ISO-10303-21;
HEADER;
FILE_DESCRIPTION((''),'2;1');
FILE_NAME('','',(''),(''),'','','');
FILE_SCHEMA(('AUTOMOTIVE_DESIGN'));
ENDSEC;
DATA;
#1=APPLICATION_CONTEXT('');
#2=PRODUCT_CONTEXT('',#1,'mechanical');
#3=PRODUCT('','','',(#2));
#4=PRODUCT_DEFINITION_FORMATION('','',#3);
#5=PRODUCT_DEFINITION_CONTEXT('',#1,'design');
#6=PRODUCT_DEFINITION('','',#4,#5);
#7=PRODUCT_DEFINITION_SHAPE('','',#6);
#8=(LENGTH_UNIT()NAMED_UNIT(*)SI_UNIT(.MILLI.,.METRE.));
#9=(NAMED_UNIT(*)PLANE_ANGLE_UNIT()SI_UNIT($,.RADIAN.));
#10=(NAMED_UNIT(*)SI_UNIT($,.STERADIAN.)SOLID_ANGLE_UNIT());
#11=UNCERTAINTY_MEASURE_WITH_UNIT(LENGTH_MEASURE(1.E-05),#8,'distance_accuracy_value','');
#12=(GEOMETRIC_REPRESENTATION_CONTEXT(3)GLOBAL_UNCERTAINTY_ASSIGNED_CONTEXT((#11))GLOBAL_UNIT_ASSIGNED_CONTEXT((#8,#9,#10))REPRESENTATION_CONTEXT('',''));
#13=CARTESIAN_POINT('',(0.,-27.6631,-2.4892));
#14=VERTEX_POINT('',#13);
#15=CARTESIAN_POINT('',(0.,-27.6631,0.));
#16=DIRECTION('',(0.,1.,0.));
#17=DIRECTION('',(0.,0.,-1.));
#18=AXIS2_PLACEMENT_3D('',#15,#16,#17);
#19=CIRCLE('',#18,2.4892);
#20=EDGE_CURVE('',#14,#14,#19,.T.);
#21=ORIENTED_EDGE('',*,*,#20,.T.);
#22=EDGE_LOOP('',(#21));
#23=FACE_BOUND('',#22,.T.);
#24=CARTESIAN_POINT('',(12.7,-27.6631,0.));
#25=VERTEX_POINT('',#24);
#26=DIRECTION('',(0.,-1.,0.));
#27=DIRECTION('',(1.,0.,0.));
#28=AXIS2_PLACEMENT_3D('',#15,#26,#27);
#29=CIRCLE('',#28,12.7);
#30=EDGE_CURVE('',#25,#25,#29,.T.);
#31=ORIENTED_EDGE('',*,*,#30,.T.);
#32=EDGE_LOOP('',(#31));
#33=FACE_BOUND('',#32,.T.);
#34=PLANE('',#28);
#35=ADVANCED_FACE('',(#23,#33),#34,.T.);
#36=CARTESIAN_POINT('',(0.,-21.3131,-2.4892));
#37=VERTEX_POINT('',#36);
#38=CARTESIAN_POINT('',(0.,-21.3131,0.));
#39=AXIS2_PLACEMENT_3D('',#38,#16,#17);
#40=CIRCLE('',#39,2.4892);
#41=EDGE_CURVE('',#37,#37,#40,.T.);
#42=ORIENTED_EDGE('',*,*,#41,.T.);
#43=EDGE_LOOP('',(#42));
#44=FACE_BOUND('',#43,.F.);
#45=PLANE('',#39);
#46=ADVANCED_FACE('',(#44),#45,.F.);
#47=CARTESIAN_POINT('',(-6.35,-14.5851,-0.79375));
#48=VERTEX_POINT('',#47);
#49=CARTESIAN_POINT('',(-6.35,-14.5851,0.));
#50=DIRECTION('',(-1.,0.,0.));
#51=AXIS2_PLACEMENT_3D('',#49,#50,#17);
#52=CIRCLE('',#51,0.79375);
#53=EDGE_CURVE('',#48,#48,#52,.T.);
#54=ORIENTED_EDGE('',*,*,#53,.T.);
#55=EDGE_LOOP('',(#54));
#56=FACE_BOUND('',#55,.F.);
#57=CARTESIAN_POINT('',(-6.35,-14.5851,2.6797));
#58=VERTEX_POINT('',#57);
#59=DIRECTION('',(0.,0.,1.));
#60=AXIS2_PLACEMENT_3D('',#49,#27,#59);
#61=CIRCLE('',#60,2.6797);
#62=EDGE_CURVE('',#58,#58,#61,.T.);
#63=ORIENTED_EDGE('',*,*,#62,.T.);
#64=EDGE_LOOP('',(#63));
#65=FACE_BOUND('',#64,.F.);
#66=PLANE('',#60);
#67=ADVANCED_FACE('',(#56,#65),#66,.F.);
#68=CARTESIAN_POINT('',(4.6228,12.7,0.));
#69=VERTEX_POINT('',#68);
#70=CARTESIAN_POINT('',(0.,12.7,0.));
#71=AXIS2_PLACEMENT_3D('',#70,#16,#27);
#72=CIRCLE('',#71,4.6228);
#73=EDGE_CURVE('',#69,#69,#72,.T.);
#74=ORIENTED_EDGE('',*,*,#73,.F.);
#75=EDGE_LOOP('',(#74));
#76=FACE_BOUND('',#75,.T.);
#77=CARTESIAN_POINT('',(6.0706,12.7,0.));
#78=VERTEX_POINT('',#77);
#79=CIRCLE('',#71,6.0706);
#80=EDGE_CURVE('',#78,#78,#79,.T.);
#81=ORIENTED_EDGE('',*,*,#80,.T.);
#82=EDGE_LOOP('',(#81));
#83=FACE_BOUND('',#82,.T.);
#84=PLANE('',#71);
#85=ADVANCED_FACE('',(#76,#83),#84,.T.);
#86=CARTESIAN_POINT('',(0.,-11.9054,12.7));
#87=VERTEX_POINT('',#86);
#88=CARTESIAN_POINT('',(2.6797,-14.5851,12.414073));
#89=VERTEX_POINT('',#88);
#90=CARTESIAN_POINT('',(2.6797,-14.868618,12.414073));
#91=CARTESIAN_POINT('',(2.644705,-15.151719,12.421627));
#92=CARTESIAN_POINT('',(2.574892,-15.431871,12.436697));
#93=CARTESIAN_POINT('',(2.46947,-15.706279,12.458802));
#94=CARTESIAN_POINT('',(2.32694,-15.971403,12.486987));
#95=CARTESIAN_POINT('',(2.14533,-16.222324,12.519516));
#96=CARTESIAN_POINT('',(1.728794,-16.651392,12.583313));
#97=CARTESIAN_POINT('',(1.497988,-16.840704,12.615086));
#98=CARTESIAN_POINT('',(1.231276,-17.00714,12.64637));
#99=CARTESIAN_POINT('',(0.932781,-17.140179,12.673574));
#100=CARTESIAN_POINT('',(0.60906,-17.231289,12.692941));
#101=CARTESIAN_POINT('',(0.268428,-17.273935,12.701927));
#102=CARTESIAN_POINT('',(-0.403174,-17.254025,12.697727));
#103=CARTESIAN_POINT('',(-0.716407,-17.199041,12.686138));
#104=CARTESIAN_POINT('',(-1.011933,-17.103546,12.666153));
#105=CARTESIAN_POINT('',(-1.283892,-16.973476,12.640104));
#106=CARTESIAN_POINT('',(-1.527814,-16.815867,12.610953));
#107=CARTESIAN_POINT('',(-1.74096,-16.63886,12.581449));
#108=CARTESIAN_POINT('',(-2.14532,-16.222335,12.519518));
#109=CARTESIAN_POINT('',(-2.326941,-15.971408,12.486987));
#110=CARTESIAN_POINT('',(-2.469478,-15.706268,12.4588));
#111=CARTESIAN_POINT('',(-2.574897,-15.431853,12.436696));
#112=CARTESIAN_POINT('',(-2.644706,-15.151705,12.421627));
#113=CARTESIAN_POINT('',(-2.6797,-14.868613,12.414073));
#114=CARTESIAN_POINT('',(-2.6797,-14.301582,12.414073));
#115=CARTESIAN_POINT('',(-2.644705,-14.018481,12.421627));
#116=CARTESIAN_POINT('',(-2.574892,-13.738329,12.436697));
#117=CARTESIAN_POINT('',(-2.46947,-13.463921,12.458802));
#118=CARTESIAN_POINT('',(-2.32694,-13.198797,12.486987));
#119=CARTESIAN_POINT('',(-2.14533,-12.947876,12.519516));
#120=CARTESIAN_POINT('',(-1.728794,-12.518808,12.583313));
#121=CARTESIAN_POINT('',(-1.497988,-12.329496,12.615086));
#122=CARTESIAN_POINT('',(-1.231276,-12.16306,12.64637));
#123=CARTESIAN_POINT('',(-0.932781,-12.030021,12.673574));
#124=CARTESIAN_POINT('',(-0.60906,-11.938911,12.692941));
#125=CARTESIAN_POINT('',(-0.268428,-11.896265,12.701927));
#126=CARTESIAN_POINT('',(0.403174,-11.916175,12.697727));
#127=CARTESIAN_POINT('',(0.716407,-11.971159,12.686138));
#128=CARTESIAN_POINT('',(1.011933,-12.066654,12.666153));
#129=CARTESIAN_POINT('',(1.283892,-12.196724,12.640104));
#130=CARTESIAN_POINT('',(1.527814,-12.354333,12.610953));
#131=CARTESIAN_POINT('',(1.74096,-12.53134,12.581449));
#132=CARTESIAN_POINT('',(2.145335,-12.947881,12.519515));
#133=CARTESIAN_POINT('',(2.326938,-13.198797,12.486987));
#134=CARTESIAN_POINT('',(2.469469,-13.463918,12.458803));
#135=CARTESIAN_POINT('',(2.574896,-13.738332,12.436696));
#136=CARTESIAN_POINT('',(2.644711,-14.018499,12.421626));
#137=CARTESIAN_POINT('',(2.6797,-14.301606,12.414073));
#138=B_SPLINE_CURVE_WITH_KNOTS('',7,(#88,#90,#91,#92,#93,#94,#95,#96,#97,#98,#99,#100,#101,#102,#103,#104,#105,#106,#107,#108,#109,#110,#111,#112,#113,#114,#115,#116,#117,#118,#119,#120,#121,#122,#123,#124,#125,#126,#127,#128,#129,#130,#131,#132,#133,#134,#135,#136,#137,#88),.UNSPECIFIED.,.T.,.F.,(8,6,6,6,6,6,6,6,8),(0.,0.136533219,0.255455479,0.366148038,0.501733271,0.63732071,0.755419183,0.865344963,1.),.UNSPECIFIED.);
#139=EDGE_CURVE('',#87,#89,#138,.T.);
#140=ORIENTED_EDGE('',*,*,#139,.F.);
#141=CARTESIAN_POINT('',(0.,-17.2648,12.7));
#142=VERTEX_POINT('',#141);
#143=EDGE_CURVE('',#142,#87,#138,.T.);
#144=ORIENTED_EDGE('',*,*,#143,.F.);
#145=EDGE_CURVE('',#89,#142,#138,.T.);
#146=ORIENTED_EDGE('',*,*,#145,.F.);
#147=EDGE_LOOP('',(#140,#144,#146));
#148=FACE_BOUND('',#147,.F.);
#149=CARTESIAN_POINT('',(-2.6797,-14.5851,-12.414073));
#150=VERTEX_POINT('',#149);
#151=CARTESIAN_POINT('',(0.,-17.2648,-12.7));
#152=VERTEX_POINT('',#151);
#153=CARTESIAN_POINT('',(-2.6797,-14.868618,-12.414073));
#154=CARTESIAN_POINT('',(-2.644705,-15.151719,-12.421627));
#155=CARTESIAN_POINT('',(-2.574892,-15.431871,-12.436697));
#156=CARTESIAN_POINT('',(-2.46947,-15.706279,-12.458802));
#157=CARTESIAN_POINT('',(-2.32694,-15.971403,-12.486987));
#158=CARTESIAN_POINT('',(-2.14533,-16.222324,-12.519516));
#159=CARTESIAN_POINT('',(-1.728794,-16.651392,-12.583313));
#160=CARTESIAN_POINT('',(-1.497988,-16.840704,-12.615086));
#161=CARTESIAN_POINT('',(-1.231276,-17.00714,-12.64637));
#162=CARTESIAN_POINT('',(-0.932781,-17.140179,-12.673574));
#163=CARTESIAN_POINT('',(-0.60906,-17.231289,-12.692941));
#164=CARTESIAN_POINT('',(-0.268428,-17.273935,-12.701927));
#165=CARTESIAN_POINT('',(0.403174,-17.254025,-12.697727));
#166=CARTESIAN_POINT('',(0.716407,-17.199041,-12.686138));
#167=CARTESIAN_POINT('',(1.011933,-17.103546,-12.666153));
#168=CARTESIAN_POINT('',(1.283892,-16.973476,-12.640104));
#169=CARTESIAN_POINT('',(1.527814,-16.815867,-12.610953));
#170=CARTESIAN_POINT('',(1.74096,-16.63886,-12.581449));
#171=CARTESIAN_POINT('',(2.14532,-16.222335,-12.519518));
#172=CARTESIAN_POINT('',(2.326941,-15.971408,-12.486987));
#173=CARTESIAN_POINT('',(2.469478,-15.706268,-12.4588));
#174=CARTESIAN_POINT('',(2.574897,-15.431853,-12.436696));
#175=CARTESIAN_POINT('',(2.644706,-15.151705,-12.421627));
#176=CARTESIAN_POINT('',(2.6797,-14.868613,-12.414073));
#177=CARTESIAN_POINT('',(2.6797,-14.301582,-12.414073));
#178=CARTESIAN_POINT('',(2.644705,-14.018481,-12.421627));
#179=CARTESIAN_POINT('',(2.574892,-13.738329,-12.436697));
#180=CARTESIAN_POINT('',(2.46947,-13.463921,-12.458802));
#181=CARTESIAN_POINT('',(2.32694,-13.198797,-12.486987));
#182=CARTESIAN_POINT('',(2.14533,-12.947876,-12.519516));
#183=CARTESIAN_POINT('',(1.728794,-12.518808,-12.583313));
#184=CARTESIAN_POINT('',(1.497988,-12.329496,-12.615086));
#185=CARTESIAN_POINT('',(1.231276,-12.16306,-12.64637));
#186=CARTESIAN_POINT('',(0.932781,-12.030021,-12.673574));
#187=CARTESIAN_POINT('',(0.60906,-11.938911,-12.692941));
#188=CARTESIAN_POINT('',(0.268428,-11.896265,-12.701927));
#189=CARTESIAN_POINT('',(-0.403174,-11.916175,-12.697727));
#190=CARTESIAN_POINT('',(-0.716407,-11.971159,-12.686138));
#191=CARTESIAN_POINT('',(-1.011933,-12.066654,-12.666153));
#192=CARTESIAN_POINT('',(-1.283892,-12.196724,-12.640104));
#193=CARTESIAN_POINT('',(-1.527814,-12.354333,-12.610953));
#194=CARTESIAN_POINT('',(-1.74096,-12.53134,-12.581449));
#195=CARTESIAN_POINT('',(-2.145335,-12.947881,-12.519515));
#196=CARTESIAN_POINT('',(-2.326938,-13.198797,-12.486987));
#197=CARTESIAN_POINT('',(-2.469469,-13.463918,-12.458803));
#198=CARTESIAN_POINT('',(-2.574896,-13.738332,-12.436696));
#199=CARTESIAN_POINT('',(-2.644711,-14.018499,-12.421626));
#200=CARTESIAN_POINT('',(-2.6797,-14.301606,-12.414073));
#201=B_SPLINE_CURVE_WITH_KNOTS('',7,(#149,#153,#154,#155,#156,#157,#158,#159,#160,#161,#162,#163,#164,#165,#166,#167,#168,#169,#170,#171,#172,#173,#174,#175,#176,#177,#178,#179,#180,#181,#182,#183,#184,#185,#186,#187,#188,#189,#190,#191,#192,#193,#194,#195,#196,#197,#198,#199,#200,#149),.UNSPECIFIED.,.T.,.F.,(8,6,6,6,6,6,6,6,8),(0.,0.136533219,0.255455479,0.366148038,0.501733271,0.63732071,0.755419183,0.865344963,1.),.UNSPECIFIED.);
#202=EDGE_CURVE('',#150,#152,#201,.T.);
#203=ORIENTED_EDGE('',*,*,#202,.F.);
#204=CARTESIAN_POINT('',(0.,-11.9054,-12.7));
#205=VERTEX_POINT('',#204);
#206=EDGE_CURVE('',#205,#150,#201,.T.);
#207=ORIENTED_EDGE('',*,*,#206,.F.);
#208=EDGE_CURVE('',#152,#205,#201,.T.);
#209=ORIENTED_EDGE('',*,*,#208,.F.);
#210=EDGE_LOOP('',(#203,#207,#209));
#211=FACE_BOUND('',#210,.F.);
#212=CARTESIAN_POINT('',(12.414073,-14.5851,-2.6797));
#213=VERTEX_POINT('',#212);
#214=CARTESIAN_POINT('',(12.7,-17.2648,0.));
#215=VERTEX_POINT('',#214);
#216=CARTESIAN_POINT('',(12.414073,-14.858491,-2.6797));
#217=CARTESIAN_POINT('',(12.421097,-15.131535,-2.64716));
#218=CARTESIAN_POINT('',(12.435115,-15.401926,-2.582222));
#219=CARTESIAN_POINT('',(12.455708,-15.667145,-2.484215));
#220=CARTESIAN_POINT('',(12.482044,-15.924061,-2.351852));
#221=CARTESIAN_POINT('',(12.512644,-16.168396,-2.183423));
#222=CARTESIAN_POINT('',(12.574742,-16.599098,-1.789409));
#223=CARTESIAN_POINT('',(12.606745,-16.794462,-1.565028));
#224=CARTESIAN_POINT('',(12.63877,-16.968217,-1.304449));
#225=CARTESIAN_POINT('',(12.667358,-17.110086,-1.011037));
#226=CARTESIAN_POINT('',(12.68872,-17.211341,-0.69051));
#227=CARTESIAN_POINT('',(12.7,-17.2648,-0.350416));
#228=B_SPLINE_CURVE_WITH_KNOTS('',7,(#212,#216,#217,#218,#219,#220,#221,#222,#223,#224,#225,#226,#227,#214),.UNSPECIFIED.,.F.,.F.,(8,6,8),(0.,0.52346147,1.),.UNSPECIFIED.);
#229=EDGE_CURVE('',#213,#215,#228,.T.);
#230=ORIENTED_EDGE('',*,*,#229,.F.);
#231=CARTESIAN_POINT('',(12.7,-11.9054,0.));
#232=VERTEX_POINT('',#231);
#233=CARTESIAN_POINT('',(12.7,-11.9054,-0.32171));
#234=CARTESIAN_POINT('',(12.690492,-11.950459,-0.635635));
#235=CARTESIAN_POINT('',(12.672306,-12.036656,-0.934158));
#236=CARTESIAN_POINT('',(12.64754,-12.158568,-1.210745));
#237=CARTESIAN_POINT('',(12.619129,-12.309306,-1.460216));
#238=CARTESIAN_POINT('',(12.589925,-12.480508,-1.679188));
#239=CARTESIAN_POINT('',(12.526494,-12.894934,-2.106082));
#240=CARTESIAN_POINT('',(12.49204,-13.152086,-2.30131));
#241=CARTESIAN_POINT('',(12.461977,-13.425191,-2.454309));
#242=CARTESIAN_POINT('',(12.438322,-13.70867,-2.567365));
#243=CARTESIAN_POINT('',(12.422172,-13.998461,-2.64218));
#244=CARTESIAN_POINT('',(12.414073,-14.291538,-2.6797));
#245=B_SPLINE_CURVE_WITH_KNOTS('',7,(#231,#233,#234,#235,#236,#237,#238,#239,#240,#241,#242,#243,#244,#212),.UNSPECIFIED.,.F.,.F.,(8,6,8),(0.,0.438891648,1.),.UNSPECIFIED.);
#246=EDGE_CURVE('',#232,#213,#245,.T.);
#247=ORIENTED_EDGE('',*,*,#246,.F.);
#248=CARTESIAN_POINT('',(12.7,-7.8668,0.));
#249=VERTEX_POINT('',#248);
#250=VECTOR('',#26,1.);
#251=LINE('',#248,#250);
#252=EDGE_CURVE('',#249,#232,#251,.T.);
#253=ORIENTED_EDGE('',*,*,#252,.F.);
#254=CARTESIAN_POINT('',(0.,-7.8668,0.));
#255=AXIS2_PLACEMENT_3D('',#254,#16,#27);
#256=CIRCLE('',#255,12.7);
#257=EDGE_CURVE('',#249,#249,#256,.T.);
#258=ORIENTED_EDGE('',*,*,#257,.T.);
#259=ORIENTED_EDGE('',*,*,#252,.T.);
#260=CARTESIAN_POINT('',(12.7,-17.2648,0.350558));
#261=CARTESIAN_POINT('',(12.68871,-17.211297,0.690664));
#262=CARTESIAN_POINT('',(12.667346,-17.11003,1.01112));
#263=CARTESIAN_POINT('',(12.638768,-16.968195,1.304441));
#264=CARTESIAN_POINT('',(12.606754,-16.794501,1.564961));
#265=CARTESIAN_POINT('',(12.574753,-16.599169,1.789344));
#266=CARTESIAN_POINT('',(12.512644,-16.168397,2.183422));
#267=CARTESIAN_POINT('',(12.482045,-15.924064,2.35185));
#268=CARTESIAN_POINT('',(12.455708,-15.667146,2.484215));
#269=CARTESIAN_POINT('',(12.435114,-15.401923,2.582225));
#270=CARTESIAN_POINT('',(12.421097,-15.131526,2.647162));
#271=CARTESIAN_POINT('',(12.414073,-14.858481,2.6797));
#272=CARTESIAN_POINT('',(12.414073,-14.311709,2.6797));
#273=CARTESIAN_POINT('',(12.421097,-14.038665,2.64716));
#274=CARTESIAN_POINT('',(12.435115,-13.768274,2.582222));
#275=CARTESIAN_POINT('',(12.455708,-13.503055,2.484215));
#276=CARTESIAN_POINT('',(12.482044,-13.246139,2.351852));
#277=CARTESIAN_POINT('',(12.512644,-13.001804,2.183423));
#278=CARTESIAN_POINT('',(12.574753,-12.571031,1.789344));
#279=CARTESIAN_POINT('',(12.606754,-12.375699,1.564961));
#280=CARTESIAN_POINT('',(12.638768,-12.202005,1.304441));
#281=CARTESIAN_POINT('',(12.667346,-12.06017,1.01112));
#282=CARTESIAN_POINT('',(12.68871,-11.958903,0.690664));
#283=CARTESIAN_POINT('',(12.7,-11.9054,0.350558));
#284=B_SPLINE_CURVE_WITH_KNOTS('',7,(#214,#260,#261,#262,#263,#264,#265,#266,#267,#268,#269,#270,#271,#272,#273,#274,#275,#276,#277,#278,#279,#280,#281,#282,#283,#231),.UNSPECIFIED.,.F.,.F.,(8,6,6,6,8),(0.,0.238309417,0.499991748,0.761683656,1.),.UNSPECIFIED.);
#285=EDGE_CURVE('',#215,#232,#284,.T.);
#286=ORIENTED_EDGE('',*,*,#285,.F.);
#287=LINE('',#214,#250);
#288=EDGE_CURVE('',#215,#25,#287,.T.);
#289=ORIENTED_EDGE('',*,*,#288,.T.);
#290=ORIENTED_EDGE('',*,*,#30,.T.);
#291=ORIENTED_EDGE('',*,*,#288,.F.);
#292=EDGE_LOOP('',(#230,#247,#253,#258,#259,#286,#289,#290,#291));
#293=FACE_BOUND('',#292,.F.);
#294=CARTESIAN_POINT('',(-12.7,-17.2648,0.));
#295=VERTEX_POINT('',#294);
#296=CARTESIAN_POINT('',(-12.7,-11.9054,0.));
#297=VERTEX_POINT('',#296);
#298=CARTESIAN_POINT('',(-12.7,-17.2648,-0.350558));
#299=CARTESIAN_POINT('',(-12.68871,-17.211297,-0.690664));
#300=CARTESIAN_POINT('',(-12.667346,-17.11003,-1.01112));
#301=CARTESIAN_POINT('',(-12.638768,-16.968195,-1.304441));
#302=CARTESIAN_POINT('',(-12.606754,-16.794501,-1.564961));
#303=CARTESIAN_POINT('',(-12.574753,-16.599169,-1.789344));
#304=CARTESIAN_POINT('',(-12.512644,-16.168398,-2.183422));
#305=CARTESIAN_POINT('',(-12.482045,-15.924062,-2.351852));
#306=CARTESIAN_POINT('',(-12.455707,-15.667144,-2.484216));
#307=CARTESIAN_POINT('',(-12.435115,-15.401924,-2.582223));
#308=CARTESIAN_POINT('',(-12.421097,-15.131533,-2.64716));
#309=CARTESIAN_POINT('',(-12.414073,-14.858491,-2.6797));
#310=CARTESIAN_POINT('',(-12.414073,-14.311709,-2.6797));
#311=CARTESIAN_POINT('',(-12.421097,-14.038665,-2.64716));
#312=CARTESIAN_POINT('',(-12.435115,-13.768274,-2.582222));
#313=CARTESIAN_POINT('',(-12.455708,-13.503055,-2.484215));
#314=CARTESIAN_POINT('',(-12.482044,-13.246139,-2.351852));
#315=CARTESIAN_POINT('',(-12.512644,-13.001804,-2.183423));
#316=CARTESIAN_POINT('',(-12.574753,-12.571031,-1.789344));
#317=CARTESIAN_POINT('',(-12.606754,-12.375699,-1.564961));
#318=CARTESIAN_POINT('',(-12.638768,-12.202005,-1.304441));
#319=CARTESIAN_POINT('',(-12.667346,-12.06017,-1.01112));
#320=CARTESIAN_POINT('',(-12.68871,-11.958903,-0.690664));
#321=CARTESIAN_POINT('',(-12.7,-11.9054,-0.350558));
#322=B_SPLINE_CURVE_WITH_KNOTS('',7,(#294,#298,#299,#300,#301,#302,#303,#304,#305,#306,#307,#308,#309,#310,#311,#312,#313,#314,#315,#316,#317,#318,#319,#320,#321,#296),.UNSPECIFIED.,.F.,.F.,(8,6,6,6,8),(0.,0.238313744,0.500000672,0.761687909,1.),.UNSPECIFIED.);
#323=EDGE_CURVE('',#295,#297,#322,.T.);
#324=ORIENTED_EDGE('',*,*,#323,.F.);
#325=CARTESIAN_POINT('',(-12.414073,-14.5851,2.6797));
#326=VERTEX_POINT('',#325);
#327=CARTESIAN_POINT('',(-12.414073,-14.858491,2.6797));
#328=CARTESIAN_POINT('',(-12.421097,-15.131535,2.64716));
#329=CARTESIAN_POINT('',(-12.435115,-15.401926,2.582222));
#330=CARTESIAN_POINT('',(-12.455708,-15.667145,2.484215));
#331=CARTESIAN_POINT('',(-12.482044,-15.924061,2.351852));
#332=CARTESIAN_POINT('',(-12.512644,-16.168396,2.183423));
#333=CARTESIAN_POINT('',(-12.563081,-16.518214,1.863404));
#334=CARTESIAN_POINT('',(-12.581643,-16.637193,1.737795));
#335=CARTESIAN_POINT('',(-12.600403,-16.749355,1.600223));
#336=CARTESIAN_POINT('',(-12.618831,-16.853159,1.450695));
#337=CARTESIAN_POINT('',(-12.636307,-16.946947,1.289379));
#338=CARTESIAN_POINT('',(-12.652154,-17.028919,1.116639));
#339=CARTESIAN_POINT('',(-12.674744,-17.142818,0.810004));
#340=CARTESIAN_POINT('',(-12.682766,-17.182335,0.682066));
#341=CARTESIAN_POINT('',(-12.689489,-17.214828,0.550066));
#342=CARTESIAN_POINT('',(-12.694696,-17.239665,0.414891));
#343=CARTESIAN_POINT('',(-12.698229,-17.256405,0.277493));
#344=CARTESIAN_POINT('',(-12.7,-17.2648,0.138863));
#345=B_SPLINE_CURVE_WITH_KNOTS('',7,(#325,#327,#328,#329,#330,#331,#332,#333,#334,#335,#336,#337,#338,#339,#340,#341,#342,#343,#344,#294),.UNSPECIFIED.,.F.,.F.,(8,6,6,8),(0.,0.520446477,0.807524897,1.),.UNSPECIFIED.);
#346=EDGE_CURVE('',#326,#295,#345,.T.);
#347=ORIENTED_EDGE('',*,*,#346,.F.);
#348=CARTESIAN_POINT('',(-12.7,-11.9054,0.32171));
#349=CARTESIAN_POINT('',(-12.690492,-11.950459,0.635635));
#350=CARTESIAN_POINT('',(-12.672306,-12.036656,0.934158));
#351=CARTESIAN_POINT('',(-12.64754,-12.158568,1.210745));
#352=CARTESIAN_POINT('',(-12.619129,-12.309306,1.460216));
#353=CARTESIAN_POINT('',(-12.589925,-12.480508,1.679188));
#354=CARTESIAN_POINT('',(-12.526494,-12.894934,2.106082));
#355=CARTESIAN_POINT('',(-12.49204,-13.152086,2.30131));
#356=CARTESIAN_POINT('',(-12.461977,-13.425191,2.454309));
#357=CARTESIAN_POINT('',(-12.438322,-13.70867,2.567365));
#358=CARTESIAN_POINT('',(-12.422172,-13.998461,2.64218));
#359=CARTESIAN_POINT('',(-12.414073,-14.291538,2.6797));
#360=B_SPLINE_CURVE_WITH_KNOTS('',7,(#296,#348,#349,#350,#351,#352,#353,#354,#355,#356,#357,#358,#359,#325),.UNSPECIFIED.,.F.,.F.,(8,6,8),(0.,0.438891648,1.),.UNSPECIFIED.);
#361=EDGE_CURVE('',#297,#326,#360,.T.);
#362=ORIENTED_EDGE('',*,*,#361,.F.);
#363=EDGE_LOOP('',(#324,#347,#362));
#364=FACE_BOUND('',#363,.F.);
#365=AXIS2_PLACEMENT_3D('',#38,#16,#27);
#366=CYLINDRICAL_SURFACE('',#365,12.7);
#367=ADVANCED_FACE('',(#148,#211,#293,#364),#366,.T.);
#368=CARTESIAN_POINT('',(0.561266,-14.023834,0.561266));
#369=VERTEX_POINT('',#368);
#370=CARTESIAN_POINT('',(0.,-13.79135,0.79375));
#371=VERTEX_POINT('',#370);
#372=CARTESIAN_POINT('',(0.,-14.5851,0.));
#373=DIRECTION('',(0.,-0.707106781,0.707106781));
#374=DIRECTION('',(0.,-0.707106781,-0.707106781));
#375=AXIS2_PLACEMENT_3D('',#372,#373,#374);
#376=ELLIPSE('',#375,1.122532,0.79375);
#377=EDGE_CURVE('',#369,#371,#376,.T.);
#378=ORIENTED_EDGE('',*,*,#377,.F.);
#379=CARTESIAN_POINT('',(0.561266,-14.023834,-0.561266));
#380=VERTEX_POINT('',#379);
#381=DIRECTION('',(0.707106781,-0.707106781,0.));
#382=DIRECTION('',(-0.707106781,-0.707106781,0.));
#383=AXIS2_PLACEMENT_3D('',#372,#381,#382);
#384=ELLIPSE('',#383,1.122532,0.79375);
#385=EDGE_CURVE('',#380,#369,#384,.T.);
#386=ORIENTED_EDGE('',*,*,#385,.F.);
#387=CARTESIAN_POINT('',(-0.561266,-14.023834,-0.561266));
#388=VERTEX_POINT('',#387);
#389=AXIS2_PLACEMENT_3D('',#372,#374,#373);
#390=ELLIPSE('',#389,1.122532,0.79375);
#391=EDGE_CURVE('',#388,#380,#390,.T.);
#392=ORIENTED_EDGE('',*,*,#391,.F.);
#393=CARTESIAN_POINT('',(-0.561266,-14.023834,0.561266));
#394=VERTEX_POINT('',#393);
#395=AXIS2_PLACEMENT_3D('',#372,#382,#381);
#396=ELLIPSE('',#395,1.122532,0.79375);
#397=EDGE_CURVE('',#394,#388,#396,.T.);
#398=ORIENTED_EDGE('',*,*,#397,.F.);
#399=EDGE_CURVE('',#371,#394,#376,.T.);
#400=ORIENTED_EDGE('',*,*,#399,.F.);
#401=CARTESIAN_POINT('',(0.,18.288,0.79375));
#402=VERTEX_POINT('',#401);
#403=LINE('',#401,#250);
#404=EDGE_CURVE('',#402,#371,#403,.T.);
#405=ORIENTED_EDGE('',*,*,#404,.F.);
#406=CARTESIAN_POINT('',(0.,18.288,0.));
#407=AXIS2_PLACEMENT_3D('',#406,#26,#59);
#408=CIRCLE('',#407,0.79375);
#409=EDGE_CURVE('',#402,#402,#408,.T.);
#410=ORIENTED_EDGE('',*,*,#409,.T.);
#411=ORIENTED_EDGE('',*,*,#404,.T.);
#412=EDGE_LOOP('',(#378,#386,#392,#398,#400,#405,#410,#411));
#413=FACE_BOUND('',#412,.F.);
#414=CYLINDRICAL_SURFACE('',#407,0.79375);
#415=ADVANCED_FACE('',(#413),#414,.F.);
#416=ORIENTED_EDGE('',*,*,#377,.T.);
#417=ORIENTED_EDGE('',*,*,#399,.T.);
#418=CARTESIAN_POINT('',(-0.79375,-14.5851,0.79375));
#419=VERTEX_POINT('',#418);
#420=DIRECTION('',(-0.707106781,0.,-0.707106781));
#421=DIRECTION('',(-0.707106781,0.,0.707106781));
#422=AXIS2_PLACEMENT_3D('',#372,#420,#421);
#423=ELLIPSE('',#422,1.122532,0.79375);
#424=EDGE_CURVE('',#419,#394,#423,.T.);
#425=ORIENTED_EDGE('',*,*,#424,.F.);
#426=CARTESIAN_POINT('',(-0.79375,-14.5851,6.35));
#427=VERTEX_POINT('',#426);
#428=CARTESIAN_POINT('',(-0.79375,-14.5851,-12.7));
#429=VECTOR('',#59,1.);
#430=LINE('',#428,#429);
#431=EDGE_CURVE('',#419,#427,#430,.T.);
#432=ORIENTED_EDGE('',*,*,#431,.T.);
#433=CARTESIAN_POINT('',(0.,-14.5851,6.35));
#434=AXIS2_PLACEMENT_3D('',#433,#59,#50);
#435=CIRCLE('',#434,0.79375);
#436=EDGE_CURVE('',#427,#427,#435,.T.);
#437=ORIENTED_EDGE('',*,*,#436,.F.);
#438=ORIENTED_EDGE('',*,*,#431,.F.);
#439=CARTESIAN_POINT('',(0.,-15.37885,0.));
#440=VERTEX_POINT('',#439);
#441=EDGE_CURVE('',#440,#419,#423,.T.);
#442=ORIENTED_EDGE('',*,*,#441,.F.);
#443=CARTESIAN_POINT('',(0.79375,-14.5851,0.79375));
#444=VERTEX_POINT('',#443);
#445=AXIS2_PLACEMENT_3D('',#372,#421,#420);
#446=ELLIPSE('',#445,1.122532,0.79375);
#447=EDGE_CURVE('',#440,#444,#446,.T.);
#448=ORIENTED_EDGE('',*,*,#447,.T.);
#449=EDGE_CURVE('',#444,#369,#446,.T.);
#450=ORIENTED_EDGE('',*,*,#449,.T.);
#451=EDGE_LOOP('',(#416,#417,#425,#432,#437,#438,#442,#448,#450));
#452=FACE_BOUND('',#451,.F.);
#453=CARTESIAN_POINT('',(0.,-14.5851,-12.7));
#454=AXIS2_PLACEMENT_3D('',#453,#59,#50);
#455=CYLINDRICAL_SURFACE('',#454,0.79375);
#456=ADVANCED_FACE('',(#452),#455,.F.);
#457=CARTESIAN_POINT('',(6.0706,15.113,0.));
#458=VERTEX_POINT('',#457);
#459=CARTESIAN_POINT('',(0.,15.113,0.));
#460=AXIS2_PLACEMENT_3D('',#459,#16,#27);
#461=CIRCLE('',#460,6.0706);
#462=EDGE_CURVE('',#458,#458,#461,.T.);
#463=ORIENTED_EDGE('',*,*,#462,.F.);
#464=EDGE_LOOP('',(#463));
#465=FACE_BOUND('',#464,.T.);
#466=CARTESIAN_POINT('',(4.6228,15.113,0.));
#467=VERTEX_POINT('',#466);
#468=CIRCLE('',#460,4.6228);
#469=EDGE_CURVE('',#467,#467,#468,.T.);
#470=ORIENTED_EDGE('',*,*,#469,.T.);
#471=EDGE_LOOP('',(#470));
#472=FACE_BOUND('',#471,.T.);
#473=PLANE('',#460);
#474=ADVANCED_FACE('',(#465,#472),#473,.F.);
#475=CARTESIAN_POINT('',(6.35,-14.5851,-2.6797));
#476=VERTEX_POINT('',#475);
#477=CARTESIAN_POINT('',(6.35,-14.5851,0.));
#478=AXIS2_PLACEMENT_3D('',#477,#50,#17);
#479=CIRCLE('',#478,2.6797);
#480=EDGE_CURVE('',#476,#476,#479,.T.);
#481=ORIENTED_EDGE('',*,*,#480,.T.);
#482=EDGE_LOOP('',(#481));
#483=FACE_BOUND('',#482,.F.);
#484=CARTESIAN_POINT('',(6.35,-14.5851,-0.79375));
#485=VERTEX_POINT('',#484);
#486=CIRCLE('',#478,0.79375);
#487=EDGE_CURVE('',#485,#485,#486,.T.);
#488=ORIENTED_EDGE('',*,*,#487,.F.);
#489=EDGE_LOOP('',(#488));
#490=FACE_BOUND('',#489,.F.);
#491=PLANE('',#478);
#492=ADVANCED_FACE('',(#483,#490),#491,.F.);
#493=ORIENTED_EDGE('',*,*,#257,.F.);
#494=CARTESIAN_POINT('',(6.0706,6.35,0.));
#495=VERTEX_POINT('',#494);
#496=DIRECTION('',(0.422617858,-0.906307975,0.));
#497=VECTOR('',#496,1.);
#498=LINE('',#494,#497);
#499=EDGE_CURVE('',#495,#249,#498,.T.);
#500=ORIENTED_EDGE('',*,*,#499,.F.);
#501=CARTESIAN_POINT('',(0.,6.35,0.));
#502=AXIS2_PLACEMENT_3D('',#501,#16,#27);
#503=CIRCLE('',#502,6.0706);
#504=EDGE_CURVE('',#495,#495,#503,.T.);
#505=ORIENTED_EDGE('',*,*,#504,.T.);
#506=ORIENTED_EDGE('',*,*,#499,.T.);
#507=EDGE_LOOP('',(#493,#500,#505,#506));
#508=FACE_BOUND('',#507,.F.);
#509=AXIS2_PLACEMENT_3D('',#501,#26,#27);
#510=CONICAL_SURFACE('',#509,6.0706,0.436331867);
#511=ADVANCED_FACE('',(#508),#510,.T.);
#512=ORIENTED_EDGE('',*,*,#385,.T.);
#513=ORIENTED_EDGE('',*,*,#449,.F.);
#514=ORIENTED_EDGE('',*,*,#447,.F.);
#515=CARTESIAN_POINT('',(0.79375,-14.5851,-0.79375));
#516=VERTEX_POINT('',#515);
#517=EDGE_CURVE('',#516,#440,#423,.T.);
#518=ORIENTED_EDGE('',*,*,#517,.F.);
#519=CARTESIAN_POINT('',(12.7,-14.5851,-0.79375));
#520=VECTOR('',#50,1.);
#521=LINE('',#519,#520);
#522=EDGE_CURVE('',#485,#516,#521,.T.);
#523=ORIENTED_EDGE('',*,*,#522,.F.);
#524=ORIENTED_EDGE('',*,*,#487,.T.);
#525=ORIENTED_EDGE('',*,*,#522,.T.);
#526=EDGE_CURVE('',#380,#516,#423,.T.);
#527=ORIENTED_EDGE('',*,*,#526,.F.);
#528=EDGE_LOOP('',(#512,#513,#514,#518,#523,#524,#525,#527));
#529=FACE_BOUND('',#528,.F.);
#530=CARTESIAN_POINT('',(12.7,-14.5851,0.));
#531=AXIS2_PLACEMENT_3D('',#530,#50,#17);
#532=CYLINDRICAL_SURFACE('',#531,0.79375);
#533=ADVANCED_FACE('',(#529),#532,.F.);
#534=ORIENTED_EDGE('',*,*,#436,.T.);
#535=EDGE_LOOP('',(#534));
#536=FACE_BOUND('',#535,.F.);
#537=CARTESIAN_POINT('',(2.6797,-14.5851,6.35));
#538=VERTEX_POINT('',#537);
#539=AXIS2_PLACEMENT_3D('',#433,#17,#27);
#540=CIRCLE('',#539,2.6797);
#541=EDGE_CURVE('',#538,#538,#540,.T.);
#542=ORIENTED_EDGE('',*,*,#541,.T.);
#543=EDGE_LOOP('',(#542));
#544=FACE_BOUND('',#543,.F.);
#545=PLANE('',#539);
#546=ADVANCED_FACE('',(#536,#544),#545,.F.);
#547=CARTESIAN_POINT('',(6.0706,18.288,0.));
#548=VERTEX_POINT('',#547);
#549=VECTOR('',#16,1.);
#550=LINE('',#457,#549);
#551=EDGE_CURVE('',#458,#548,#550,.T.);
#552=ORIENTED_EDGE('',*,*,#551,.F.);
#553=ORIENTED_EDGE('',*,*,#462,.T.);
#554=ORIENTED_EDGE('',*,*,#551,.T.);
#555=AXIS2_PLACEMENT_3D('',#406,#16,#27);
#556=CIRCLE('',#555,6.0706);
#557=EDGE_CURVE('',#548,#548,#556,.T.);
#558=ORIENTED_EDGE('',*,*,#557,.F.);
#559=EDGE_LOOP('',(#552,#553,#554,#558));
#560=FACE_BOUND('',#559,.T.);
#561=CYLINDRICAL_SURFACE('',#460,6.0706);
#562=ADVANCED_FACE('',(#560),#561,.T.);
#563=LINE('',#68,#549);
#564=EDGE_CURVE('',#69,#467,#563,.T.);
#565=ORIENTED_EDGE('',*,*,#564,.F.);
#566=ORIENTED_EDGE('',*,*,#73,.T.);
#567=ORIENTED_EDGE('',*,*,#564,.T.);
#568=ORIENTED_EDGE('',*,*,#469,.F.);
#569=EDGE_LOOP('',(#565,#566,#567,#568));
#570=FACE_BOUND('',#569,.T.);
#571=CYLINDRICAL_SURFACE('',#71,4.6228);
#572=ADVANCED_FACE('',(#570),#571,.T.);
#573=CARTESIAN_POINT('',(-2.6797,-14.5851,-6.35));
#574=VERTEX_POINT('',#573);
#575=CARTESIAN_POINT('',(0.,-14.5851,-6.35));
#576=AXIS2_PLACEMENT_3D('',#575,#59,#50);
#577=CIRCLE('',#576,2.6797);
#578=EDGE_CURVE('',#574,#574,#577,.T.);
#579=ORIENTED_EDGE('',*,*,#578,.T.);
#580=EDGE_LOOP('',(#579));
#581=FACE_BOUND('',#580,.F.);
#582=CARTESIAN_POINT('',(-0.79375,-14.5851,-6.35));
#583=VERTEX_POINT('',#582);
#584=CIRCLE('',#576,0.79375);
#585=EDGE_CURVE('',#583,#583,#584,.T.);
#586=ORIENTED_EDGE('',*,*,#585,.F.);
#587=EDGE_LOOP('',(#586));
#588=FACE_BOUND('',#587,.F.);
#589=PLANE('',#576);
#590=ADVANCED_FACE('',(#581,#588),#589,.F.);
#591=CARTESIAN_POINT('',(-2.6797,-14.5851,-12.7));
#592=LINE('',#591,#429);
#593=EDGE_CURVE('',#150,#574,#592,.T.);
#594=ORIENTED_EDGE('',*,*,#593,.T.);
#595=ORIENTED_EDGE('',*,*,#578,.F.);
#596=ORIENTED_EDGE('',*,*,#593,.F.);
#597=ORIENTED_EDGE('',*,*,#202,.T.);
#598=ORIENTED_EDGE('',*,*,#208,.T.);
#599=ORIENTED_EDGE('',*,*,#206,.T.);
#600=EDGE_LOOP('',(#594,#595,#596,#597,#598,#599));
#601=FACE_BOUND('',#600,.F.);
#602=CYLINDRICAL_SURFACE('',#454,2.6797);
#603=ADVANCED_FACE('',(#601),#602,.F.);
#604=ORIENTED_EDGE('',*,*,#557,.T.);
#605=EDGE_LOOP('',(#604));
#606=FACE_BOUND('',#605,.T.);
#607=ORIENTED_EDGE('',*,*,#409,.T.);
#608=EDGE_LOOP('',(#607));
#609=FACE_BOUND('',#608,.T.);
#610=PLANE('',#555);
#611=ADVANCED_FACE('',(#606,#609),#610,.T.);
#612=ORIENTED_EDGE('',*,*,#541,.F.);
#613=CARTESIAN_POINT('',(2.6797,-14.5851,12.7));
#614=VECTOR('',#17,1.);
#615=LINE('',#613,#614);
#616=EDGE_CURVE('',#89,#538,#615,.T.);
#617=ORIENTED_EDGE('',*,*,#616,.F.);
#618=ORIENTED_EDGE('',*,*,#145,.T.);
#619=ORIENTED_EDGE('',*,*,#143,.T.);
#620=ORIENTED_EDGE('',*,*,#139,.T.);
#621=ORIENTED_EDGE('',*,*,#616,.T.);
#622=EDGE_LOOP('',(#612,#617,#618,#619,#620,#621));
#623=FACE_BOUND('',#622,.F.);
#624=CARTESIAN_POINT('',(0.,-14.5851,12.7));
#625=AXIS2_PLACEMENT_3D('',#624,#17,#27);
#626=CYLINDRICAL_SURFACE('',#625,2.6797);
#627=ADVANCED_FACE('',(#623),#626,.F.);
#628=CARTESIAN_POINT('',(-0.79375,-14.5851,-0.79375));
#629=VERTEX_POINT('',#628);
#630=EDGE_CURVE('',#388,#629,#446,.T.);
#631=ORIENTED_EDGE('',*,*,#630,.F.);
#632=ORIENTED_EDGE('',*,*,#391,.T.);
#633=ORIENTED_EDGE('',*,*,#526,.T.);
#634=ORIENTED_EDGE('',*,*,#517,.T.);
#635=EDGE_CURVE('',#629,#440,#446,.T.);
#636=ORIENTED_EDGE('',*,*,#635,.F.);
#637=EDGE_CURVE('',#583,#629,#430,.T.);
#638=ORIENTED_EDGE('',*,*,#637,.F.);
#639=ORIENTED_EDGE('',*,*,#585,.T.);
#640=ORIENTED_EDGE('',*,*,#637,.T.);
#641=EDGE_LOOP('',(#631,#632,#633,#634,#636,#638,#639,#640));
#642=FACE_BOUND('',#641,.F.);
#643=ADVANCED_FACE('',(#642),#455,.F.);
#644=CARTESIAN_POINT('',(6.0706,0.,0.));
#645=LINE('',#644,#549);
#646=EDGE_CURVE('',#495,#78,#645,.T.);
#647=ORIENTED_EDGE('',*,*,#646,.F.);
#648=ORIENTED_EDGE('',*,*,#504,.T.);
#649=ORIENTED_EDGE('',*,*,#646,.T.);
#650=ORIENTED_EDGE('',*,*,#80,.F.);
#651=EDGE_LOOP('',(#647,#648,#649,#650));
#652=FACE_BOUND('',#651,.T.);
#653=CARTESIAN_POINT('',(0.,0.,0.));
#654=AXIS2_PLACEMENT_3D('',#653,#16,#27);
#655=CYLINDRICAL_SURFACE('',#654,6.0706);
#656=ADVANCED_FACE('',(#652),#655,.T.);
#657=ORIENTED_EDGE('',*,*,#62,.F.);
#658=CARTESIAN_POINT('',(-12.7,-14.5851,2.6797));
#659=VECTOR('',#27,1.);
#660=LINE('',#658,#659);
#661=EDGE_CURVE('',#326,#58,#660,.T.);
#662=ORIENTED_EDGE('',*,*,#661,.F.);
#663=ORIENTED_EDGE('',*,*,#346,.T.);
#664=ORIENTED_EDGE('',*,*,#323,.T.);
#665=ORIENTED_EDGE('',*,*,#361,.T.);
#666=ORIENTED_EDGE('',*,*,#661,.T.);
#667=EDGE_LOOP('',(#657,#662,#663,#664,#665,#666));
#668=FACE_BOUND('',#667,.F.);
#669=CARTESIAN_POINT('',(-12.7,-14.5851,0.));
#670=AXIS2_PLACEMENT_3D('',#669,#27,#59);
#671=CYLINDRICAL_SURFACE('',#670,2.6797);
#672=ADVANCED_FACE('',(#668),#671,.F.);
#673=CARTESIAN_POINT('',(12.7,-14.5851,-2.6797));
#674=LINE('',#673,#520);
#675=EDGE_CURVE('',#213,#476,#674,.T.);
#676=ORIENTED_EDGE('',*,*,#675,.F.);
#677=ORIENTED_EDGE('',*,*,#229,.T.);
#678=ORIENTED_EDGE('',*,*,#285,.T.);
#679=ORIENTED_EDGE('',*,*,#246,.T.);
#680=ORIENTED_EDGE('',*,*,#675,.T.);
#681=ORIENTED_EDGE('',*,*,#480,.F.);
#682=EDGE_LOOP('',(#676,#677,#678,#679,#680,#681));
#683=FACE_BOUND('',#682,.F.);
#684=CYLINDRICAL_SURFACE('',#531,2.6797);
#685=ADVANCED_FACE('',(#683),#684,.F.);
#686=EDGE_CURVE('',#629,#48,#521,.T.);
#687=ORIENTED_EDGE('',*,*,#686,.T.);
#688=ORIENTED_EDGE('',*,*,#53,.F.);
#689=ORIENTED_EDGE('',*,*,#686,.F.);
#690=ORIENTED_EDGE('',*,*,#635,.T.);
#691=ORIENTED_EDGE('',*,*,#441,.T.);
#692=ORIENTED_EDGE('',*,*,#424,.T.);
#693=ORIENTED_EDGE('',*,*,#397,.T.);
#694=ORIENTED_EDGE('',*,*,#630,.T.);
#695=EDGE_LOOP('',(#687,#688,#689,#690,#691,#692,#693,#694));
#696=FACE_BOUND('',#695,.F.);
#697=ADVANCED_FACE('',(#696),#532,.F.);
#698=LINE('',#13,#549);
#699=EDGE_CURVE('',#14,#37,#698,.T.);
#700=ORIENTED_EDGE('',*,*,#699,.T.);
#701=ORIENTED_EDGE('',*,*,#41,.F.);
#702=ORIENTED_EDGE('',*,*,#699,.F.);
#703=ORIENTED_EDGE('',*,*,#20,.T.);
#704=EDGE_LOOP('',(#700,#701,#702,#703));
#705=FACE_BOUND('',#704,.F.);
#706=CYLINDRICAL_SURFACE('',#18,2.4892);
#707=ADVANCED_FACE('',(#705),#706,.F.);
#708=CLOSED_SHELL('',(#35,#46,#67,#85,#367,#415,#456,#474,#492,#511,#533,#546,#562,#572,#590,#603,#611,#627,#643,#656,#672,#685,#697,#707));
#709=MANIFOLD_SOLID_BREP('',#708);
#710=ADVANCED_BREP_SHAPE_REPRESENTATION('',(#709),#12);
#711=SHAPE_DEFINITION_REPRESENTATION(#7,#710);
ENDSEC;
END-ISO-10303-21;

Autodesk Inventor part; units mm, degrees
ref_plane "YZ Plane" through (0, 0, 0) normal (1, 0, 0) x (0, 1, 0)
ref_plane "XZ Plane" through (0, 0, 0) normal (0, 1, 0) x (-1, 0, 0)
ref_plane "XY Plane" through (0, 0, 0) normal (0, 0, 1) x (1, 0, 0)
sketch "Sketch1" plane through (0, 0, 0) normal (0, 0, 1) x (1, 0, 0)
  line L0 (0, 0) -> (6.0706, 0)
  line L1 (6.0706, 0) -> (6.0706, 12.7)
  line L2 (6.0706, 12.7) -> (4.6228, 12.7)
  line L3 (4.6228, 12.7) -> (4.6228, 15.113)
  line L4 (4.6228, 15.113) -> (6.0706, 15.113)
  line L5 (6.0706, 15.113) -> (6.0706, 18.288)
  line L6 (6.0706, 18.288) -> (0, 18.288)
  line L7 (0, 18.288) -> (0, 0)
  line L8 (0, -29.2334) -> (0, 26.2082) projected
  line L9 (6.0706, 0) -> (6.0706, 6.35)
  line L10 (6.0706, 0) -> (6.0706, 6.35)
  line L11 (6.0706, 6.35) -> (13.048, -8.6131)
  line L12 (6.0706, 6.35) -> (22.5806, 6.35) construction
  line L13 (13.048, -8.6131) -> (9.873, -8.6131)
  line L14 (9.873, -8.6131) -> (6.0706, 0)
  line L15 (13.048, -8.6131) -> (0, -8.6131)
  line L16 (0, 0) -> (6.0706, 0)
  line L17 (0, -8.6131) -> (12.7, -8.6131)
  line L18 (12.7, -8.6131) -> (12.7, -21.3131)
  line L19 (12.7, -21.3131) -> (0, -21.3131)
  line L20 (0, -21.3131) -> (0, -8.6131)
  line L21 (12.7, -8.6131) -> (12.7, -7.8668)
  dimension "d0" = 6.0706
  dimension "d1" = 12.7
  dimension "d2" = 90
  dimension "d3" = 1.4478
  dimension "d4" = 2.413
  dimension "d5" = 3.175
  dimension "d23" = 16.51
  dimension "d24" = 65
  dimension "d25" = 3.175
  dimension "d83" = 12.7
  dimension "d84" = 12.7
revolve "Revolution1" add sketch "Sketch1" angle 360 about axis through (0, -10, 0) along (0, 1, 0) contours L7 L6 L5 L4 L3 L2 L1 L0 | L0 L14 L15 L8 | L1 L11 L21 L13 L14 | L15 L13 L18 L19 L8
sketch "Sketch12" plane through (0, 18.288, 0) normal (0, 1, 0) x (1, 0, 0)
  point P0 (0, 0)
  point P1 (0, 0)
hole "Hole4" at (0, 18.288, 0) direction (0, -1, 0) diameter 1.5875 depth 32.8676 tip angle 118
sketch "Sketch13" plane through (0, -21.3131, 0) normal (0, -1, 0) x (1, 0, 0)
  circle A0 centre (0, 0) radius 12.7 projected
  point P0 (12.7, 0)
  point P1 (0, -12.7)
  point P2 (-12.7, 0)
  point P3 (0, 12.7)
ref_plane "Work Plane1" through (12.7, -21.3131, 0) normal (1, 0, 0) x (0, 1, 0)
sketch "Sketch14" plane through (12.7, -21.3131, 0) normal (1, 0, 0) x (0, 1, 0)
  line L0 (0, 12.7) -> (0, -12.7) projected
  line L1 (0, 0) -> (13.4463, 0)
  line L2 (13.4463, 12.7) -> (13.4463, -12.7) projected
  line L3 (13.4463, 0) -> (6.728, 0)
  point P0 (21.3131, 0)
  dimension "d92" = 6.7183
hole "Hole5" at (12.7, -14.5851, 0) direction (-1, 0, 0) diameter 1.5875 end through all
hole "Hole6" at (12.7, -14.5851, 0) direction (-1, 0, 0) diameter 5.3594 depth 6.35 thread size "1/4-28 UNF" class "2B" standard "ANSI Unified Screw Threads"
extrude "Extrusion3" add sketch "Sketch13" along normal blind 6.35
sketch "Sketch16" plane through (0, -27.6631, 0) normal (0, -1, 0) x (1, 0, 0)
  point P0 (0, 0)
hole "Hole8" at (0, -27.6631, 0) direction (0, 1, 0) diameter 4.9784 depth 6.35 thread size "1/4-20 UNC" class "2B" standard "ANSI Unified Screw Threads"
pattern_circular "Circular Pattern5" count 4 over 360 about axis through (0, -10, 0) along (0, 1, 0) of "Hole5", "Hole6"
equation "\"d54\" = 55deg"
equation "\"Sketch7_Pitch\" = 0.90714"
equation "\"d72\" = 55deg"
equation "\"Sketch9_Pitch\" = 1.27"
equation "\"d137\" = 55deg"
equation "\"Sketch17_Pitch\" = 1.27"
equation "\"d155\" = 55deg"
equation "\"Sketch19_Pitch\" = 0.90714"
equation "\"d173\" = 55deg"
equation "\"Sketch21_Pitch\" = 0.90714"
equation "\"d191\" = 55deg"
equation "\"Sketch23_Pitch\" = 1.27"
equation "\"d221\" = 55deg"
equation "\"Sketch25_Pitch\" = 0.90714"
equation "\"d239\" = 55deg"
equation "\"Sketch27_Pitch\" = 1.27"
properties part number "piston badflowchannel-1-16in-thread"
